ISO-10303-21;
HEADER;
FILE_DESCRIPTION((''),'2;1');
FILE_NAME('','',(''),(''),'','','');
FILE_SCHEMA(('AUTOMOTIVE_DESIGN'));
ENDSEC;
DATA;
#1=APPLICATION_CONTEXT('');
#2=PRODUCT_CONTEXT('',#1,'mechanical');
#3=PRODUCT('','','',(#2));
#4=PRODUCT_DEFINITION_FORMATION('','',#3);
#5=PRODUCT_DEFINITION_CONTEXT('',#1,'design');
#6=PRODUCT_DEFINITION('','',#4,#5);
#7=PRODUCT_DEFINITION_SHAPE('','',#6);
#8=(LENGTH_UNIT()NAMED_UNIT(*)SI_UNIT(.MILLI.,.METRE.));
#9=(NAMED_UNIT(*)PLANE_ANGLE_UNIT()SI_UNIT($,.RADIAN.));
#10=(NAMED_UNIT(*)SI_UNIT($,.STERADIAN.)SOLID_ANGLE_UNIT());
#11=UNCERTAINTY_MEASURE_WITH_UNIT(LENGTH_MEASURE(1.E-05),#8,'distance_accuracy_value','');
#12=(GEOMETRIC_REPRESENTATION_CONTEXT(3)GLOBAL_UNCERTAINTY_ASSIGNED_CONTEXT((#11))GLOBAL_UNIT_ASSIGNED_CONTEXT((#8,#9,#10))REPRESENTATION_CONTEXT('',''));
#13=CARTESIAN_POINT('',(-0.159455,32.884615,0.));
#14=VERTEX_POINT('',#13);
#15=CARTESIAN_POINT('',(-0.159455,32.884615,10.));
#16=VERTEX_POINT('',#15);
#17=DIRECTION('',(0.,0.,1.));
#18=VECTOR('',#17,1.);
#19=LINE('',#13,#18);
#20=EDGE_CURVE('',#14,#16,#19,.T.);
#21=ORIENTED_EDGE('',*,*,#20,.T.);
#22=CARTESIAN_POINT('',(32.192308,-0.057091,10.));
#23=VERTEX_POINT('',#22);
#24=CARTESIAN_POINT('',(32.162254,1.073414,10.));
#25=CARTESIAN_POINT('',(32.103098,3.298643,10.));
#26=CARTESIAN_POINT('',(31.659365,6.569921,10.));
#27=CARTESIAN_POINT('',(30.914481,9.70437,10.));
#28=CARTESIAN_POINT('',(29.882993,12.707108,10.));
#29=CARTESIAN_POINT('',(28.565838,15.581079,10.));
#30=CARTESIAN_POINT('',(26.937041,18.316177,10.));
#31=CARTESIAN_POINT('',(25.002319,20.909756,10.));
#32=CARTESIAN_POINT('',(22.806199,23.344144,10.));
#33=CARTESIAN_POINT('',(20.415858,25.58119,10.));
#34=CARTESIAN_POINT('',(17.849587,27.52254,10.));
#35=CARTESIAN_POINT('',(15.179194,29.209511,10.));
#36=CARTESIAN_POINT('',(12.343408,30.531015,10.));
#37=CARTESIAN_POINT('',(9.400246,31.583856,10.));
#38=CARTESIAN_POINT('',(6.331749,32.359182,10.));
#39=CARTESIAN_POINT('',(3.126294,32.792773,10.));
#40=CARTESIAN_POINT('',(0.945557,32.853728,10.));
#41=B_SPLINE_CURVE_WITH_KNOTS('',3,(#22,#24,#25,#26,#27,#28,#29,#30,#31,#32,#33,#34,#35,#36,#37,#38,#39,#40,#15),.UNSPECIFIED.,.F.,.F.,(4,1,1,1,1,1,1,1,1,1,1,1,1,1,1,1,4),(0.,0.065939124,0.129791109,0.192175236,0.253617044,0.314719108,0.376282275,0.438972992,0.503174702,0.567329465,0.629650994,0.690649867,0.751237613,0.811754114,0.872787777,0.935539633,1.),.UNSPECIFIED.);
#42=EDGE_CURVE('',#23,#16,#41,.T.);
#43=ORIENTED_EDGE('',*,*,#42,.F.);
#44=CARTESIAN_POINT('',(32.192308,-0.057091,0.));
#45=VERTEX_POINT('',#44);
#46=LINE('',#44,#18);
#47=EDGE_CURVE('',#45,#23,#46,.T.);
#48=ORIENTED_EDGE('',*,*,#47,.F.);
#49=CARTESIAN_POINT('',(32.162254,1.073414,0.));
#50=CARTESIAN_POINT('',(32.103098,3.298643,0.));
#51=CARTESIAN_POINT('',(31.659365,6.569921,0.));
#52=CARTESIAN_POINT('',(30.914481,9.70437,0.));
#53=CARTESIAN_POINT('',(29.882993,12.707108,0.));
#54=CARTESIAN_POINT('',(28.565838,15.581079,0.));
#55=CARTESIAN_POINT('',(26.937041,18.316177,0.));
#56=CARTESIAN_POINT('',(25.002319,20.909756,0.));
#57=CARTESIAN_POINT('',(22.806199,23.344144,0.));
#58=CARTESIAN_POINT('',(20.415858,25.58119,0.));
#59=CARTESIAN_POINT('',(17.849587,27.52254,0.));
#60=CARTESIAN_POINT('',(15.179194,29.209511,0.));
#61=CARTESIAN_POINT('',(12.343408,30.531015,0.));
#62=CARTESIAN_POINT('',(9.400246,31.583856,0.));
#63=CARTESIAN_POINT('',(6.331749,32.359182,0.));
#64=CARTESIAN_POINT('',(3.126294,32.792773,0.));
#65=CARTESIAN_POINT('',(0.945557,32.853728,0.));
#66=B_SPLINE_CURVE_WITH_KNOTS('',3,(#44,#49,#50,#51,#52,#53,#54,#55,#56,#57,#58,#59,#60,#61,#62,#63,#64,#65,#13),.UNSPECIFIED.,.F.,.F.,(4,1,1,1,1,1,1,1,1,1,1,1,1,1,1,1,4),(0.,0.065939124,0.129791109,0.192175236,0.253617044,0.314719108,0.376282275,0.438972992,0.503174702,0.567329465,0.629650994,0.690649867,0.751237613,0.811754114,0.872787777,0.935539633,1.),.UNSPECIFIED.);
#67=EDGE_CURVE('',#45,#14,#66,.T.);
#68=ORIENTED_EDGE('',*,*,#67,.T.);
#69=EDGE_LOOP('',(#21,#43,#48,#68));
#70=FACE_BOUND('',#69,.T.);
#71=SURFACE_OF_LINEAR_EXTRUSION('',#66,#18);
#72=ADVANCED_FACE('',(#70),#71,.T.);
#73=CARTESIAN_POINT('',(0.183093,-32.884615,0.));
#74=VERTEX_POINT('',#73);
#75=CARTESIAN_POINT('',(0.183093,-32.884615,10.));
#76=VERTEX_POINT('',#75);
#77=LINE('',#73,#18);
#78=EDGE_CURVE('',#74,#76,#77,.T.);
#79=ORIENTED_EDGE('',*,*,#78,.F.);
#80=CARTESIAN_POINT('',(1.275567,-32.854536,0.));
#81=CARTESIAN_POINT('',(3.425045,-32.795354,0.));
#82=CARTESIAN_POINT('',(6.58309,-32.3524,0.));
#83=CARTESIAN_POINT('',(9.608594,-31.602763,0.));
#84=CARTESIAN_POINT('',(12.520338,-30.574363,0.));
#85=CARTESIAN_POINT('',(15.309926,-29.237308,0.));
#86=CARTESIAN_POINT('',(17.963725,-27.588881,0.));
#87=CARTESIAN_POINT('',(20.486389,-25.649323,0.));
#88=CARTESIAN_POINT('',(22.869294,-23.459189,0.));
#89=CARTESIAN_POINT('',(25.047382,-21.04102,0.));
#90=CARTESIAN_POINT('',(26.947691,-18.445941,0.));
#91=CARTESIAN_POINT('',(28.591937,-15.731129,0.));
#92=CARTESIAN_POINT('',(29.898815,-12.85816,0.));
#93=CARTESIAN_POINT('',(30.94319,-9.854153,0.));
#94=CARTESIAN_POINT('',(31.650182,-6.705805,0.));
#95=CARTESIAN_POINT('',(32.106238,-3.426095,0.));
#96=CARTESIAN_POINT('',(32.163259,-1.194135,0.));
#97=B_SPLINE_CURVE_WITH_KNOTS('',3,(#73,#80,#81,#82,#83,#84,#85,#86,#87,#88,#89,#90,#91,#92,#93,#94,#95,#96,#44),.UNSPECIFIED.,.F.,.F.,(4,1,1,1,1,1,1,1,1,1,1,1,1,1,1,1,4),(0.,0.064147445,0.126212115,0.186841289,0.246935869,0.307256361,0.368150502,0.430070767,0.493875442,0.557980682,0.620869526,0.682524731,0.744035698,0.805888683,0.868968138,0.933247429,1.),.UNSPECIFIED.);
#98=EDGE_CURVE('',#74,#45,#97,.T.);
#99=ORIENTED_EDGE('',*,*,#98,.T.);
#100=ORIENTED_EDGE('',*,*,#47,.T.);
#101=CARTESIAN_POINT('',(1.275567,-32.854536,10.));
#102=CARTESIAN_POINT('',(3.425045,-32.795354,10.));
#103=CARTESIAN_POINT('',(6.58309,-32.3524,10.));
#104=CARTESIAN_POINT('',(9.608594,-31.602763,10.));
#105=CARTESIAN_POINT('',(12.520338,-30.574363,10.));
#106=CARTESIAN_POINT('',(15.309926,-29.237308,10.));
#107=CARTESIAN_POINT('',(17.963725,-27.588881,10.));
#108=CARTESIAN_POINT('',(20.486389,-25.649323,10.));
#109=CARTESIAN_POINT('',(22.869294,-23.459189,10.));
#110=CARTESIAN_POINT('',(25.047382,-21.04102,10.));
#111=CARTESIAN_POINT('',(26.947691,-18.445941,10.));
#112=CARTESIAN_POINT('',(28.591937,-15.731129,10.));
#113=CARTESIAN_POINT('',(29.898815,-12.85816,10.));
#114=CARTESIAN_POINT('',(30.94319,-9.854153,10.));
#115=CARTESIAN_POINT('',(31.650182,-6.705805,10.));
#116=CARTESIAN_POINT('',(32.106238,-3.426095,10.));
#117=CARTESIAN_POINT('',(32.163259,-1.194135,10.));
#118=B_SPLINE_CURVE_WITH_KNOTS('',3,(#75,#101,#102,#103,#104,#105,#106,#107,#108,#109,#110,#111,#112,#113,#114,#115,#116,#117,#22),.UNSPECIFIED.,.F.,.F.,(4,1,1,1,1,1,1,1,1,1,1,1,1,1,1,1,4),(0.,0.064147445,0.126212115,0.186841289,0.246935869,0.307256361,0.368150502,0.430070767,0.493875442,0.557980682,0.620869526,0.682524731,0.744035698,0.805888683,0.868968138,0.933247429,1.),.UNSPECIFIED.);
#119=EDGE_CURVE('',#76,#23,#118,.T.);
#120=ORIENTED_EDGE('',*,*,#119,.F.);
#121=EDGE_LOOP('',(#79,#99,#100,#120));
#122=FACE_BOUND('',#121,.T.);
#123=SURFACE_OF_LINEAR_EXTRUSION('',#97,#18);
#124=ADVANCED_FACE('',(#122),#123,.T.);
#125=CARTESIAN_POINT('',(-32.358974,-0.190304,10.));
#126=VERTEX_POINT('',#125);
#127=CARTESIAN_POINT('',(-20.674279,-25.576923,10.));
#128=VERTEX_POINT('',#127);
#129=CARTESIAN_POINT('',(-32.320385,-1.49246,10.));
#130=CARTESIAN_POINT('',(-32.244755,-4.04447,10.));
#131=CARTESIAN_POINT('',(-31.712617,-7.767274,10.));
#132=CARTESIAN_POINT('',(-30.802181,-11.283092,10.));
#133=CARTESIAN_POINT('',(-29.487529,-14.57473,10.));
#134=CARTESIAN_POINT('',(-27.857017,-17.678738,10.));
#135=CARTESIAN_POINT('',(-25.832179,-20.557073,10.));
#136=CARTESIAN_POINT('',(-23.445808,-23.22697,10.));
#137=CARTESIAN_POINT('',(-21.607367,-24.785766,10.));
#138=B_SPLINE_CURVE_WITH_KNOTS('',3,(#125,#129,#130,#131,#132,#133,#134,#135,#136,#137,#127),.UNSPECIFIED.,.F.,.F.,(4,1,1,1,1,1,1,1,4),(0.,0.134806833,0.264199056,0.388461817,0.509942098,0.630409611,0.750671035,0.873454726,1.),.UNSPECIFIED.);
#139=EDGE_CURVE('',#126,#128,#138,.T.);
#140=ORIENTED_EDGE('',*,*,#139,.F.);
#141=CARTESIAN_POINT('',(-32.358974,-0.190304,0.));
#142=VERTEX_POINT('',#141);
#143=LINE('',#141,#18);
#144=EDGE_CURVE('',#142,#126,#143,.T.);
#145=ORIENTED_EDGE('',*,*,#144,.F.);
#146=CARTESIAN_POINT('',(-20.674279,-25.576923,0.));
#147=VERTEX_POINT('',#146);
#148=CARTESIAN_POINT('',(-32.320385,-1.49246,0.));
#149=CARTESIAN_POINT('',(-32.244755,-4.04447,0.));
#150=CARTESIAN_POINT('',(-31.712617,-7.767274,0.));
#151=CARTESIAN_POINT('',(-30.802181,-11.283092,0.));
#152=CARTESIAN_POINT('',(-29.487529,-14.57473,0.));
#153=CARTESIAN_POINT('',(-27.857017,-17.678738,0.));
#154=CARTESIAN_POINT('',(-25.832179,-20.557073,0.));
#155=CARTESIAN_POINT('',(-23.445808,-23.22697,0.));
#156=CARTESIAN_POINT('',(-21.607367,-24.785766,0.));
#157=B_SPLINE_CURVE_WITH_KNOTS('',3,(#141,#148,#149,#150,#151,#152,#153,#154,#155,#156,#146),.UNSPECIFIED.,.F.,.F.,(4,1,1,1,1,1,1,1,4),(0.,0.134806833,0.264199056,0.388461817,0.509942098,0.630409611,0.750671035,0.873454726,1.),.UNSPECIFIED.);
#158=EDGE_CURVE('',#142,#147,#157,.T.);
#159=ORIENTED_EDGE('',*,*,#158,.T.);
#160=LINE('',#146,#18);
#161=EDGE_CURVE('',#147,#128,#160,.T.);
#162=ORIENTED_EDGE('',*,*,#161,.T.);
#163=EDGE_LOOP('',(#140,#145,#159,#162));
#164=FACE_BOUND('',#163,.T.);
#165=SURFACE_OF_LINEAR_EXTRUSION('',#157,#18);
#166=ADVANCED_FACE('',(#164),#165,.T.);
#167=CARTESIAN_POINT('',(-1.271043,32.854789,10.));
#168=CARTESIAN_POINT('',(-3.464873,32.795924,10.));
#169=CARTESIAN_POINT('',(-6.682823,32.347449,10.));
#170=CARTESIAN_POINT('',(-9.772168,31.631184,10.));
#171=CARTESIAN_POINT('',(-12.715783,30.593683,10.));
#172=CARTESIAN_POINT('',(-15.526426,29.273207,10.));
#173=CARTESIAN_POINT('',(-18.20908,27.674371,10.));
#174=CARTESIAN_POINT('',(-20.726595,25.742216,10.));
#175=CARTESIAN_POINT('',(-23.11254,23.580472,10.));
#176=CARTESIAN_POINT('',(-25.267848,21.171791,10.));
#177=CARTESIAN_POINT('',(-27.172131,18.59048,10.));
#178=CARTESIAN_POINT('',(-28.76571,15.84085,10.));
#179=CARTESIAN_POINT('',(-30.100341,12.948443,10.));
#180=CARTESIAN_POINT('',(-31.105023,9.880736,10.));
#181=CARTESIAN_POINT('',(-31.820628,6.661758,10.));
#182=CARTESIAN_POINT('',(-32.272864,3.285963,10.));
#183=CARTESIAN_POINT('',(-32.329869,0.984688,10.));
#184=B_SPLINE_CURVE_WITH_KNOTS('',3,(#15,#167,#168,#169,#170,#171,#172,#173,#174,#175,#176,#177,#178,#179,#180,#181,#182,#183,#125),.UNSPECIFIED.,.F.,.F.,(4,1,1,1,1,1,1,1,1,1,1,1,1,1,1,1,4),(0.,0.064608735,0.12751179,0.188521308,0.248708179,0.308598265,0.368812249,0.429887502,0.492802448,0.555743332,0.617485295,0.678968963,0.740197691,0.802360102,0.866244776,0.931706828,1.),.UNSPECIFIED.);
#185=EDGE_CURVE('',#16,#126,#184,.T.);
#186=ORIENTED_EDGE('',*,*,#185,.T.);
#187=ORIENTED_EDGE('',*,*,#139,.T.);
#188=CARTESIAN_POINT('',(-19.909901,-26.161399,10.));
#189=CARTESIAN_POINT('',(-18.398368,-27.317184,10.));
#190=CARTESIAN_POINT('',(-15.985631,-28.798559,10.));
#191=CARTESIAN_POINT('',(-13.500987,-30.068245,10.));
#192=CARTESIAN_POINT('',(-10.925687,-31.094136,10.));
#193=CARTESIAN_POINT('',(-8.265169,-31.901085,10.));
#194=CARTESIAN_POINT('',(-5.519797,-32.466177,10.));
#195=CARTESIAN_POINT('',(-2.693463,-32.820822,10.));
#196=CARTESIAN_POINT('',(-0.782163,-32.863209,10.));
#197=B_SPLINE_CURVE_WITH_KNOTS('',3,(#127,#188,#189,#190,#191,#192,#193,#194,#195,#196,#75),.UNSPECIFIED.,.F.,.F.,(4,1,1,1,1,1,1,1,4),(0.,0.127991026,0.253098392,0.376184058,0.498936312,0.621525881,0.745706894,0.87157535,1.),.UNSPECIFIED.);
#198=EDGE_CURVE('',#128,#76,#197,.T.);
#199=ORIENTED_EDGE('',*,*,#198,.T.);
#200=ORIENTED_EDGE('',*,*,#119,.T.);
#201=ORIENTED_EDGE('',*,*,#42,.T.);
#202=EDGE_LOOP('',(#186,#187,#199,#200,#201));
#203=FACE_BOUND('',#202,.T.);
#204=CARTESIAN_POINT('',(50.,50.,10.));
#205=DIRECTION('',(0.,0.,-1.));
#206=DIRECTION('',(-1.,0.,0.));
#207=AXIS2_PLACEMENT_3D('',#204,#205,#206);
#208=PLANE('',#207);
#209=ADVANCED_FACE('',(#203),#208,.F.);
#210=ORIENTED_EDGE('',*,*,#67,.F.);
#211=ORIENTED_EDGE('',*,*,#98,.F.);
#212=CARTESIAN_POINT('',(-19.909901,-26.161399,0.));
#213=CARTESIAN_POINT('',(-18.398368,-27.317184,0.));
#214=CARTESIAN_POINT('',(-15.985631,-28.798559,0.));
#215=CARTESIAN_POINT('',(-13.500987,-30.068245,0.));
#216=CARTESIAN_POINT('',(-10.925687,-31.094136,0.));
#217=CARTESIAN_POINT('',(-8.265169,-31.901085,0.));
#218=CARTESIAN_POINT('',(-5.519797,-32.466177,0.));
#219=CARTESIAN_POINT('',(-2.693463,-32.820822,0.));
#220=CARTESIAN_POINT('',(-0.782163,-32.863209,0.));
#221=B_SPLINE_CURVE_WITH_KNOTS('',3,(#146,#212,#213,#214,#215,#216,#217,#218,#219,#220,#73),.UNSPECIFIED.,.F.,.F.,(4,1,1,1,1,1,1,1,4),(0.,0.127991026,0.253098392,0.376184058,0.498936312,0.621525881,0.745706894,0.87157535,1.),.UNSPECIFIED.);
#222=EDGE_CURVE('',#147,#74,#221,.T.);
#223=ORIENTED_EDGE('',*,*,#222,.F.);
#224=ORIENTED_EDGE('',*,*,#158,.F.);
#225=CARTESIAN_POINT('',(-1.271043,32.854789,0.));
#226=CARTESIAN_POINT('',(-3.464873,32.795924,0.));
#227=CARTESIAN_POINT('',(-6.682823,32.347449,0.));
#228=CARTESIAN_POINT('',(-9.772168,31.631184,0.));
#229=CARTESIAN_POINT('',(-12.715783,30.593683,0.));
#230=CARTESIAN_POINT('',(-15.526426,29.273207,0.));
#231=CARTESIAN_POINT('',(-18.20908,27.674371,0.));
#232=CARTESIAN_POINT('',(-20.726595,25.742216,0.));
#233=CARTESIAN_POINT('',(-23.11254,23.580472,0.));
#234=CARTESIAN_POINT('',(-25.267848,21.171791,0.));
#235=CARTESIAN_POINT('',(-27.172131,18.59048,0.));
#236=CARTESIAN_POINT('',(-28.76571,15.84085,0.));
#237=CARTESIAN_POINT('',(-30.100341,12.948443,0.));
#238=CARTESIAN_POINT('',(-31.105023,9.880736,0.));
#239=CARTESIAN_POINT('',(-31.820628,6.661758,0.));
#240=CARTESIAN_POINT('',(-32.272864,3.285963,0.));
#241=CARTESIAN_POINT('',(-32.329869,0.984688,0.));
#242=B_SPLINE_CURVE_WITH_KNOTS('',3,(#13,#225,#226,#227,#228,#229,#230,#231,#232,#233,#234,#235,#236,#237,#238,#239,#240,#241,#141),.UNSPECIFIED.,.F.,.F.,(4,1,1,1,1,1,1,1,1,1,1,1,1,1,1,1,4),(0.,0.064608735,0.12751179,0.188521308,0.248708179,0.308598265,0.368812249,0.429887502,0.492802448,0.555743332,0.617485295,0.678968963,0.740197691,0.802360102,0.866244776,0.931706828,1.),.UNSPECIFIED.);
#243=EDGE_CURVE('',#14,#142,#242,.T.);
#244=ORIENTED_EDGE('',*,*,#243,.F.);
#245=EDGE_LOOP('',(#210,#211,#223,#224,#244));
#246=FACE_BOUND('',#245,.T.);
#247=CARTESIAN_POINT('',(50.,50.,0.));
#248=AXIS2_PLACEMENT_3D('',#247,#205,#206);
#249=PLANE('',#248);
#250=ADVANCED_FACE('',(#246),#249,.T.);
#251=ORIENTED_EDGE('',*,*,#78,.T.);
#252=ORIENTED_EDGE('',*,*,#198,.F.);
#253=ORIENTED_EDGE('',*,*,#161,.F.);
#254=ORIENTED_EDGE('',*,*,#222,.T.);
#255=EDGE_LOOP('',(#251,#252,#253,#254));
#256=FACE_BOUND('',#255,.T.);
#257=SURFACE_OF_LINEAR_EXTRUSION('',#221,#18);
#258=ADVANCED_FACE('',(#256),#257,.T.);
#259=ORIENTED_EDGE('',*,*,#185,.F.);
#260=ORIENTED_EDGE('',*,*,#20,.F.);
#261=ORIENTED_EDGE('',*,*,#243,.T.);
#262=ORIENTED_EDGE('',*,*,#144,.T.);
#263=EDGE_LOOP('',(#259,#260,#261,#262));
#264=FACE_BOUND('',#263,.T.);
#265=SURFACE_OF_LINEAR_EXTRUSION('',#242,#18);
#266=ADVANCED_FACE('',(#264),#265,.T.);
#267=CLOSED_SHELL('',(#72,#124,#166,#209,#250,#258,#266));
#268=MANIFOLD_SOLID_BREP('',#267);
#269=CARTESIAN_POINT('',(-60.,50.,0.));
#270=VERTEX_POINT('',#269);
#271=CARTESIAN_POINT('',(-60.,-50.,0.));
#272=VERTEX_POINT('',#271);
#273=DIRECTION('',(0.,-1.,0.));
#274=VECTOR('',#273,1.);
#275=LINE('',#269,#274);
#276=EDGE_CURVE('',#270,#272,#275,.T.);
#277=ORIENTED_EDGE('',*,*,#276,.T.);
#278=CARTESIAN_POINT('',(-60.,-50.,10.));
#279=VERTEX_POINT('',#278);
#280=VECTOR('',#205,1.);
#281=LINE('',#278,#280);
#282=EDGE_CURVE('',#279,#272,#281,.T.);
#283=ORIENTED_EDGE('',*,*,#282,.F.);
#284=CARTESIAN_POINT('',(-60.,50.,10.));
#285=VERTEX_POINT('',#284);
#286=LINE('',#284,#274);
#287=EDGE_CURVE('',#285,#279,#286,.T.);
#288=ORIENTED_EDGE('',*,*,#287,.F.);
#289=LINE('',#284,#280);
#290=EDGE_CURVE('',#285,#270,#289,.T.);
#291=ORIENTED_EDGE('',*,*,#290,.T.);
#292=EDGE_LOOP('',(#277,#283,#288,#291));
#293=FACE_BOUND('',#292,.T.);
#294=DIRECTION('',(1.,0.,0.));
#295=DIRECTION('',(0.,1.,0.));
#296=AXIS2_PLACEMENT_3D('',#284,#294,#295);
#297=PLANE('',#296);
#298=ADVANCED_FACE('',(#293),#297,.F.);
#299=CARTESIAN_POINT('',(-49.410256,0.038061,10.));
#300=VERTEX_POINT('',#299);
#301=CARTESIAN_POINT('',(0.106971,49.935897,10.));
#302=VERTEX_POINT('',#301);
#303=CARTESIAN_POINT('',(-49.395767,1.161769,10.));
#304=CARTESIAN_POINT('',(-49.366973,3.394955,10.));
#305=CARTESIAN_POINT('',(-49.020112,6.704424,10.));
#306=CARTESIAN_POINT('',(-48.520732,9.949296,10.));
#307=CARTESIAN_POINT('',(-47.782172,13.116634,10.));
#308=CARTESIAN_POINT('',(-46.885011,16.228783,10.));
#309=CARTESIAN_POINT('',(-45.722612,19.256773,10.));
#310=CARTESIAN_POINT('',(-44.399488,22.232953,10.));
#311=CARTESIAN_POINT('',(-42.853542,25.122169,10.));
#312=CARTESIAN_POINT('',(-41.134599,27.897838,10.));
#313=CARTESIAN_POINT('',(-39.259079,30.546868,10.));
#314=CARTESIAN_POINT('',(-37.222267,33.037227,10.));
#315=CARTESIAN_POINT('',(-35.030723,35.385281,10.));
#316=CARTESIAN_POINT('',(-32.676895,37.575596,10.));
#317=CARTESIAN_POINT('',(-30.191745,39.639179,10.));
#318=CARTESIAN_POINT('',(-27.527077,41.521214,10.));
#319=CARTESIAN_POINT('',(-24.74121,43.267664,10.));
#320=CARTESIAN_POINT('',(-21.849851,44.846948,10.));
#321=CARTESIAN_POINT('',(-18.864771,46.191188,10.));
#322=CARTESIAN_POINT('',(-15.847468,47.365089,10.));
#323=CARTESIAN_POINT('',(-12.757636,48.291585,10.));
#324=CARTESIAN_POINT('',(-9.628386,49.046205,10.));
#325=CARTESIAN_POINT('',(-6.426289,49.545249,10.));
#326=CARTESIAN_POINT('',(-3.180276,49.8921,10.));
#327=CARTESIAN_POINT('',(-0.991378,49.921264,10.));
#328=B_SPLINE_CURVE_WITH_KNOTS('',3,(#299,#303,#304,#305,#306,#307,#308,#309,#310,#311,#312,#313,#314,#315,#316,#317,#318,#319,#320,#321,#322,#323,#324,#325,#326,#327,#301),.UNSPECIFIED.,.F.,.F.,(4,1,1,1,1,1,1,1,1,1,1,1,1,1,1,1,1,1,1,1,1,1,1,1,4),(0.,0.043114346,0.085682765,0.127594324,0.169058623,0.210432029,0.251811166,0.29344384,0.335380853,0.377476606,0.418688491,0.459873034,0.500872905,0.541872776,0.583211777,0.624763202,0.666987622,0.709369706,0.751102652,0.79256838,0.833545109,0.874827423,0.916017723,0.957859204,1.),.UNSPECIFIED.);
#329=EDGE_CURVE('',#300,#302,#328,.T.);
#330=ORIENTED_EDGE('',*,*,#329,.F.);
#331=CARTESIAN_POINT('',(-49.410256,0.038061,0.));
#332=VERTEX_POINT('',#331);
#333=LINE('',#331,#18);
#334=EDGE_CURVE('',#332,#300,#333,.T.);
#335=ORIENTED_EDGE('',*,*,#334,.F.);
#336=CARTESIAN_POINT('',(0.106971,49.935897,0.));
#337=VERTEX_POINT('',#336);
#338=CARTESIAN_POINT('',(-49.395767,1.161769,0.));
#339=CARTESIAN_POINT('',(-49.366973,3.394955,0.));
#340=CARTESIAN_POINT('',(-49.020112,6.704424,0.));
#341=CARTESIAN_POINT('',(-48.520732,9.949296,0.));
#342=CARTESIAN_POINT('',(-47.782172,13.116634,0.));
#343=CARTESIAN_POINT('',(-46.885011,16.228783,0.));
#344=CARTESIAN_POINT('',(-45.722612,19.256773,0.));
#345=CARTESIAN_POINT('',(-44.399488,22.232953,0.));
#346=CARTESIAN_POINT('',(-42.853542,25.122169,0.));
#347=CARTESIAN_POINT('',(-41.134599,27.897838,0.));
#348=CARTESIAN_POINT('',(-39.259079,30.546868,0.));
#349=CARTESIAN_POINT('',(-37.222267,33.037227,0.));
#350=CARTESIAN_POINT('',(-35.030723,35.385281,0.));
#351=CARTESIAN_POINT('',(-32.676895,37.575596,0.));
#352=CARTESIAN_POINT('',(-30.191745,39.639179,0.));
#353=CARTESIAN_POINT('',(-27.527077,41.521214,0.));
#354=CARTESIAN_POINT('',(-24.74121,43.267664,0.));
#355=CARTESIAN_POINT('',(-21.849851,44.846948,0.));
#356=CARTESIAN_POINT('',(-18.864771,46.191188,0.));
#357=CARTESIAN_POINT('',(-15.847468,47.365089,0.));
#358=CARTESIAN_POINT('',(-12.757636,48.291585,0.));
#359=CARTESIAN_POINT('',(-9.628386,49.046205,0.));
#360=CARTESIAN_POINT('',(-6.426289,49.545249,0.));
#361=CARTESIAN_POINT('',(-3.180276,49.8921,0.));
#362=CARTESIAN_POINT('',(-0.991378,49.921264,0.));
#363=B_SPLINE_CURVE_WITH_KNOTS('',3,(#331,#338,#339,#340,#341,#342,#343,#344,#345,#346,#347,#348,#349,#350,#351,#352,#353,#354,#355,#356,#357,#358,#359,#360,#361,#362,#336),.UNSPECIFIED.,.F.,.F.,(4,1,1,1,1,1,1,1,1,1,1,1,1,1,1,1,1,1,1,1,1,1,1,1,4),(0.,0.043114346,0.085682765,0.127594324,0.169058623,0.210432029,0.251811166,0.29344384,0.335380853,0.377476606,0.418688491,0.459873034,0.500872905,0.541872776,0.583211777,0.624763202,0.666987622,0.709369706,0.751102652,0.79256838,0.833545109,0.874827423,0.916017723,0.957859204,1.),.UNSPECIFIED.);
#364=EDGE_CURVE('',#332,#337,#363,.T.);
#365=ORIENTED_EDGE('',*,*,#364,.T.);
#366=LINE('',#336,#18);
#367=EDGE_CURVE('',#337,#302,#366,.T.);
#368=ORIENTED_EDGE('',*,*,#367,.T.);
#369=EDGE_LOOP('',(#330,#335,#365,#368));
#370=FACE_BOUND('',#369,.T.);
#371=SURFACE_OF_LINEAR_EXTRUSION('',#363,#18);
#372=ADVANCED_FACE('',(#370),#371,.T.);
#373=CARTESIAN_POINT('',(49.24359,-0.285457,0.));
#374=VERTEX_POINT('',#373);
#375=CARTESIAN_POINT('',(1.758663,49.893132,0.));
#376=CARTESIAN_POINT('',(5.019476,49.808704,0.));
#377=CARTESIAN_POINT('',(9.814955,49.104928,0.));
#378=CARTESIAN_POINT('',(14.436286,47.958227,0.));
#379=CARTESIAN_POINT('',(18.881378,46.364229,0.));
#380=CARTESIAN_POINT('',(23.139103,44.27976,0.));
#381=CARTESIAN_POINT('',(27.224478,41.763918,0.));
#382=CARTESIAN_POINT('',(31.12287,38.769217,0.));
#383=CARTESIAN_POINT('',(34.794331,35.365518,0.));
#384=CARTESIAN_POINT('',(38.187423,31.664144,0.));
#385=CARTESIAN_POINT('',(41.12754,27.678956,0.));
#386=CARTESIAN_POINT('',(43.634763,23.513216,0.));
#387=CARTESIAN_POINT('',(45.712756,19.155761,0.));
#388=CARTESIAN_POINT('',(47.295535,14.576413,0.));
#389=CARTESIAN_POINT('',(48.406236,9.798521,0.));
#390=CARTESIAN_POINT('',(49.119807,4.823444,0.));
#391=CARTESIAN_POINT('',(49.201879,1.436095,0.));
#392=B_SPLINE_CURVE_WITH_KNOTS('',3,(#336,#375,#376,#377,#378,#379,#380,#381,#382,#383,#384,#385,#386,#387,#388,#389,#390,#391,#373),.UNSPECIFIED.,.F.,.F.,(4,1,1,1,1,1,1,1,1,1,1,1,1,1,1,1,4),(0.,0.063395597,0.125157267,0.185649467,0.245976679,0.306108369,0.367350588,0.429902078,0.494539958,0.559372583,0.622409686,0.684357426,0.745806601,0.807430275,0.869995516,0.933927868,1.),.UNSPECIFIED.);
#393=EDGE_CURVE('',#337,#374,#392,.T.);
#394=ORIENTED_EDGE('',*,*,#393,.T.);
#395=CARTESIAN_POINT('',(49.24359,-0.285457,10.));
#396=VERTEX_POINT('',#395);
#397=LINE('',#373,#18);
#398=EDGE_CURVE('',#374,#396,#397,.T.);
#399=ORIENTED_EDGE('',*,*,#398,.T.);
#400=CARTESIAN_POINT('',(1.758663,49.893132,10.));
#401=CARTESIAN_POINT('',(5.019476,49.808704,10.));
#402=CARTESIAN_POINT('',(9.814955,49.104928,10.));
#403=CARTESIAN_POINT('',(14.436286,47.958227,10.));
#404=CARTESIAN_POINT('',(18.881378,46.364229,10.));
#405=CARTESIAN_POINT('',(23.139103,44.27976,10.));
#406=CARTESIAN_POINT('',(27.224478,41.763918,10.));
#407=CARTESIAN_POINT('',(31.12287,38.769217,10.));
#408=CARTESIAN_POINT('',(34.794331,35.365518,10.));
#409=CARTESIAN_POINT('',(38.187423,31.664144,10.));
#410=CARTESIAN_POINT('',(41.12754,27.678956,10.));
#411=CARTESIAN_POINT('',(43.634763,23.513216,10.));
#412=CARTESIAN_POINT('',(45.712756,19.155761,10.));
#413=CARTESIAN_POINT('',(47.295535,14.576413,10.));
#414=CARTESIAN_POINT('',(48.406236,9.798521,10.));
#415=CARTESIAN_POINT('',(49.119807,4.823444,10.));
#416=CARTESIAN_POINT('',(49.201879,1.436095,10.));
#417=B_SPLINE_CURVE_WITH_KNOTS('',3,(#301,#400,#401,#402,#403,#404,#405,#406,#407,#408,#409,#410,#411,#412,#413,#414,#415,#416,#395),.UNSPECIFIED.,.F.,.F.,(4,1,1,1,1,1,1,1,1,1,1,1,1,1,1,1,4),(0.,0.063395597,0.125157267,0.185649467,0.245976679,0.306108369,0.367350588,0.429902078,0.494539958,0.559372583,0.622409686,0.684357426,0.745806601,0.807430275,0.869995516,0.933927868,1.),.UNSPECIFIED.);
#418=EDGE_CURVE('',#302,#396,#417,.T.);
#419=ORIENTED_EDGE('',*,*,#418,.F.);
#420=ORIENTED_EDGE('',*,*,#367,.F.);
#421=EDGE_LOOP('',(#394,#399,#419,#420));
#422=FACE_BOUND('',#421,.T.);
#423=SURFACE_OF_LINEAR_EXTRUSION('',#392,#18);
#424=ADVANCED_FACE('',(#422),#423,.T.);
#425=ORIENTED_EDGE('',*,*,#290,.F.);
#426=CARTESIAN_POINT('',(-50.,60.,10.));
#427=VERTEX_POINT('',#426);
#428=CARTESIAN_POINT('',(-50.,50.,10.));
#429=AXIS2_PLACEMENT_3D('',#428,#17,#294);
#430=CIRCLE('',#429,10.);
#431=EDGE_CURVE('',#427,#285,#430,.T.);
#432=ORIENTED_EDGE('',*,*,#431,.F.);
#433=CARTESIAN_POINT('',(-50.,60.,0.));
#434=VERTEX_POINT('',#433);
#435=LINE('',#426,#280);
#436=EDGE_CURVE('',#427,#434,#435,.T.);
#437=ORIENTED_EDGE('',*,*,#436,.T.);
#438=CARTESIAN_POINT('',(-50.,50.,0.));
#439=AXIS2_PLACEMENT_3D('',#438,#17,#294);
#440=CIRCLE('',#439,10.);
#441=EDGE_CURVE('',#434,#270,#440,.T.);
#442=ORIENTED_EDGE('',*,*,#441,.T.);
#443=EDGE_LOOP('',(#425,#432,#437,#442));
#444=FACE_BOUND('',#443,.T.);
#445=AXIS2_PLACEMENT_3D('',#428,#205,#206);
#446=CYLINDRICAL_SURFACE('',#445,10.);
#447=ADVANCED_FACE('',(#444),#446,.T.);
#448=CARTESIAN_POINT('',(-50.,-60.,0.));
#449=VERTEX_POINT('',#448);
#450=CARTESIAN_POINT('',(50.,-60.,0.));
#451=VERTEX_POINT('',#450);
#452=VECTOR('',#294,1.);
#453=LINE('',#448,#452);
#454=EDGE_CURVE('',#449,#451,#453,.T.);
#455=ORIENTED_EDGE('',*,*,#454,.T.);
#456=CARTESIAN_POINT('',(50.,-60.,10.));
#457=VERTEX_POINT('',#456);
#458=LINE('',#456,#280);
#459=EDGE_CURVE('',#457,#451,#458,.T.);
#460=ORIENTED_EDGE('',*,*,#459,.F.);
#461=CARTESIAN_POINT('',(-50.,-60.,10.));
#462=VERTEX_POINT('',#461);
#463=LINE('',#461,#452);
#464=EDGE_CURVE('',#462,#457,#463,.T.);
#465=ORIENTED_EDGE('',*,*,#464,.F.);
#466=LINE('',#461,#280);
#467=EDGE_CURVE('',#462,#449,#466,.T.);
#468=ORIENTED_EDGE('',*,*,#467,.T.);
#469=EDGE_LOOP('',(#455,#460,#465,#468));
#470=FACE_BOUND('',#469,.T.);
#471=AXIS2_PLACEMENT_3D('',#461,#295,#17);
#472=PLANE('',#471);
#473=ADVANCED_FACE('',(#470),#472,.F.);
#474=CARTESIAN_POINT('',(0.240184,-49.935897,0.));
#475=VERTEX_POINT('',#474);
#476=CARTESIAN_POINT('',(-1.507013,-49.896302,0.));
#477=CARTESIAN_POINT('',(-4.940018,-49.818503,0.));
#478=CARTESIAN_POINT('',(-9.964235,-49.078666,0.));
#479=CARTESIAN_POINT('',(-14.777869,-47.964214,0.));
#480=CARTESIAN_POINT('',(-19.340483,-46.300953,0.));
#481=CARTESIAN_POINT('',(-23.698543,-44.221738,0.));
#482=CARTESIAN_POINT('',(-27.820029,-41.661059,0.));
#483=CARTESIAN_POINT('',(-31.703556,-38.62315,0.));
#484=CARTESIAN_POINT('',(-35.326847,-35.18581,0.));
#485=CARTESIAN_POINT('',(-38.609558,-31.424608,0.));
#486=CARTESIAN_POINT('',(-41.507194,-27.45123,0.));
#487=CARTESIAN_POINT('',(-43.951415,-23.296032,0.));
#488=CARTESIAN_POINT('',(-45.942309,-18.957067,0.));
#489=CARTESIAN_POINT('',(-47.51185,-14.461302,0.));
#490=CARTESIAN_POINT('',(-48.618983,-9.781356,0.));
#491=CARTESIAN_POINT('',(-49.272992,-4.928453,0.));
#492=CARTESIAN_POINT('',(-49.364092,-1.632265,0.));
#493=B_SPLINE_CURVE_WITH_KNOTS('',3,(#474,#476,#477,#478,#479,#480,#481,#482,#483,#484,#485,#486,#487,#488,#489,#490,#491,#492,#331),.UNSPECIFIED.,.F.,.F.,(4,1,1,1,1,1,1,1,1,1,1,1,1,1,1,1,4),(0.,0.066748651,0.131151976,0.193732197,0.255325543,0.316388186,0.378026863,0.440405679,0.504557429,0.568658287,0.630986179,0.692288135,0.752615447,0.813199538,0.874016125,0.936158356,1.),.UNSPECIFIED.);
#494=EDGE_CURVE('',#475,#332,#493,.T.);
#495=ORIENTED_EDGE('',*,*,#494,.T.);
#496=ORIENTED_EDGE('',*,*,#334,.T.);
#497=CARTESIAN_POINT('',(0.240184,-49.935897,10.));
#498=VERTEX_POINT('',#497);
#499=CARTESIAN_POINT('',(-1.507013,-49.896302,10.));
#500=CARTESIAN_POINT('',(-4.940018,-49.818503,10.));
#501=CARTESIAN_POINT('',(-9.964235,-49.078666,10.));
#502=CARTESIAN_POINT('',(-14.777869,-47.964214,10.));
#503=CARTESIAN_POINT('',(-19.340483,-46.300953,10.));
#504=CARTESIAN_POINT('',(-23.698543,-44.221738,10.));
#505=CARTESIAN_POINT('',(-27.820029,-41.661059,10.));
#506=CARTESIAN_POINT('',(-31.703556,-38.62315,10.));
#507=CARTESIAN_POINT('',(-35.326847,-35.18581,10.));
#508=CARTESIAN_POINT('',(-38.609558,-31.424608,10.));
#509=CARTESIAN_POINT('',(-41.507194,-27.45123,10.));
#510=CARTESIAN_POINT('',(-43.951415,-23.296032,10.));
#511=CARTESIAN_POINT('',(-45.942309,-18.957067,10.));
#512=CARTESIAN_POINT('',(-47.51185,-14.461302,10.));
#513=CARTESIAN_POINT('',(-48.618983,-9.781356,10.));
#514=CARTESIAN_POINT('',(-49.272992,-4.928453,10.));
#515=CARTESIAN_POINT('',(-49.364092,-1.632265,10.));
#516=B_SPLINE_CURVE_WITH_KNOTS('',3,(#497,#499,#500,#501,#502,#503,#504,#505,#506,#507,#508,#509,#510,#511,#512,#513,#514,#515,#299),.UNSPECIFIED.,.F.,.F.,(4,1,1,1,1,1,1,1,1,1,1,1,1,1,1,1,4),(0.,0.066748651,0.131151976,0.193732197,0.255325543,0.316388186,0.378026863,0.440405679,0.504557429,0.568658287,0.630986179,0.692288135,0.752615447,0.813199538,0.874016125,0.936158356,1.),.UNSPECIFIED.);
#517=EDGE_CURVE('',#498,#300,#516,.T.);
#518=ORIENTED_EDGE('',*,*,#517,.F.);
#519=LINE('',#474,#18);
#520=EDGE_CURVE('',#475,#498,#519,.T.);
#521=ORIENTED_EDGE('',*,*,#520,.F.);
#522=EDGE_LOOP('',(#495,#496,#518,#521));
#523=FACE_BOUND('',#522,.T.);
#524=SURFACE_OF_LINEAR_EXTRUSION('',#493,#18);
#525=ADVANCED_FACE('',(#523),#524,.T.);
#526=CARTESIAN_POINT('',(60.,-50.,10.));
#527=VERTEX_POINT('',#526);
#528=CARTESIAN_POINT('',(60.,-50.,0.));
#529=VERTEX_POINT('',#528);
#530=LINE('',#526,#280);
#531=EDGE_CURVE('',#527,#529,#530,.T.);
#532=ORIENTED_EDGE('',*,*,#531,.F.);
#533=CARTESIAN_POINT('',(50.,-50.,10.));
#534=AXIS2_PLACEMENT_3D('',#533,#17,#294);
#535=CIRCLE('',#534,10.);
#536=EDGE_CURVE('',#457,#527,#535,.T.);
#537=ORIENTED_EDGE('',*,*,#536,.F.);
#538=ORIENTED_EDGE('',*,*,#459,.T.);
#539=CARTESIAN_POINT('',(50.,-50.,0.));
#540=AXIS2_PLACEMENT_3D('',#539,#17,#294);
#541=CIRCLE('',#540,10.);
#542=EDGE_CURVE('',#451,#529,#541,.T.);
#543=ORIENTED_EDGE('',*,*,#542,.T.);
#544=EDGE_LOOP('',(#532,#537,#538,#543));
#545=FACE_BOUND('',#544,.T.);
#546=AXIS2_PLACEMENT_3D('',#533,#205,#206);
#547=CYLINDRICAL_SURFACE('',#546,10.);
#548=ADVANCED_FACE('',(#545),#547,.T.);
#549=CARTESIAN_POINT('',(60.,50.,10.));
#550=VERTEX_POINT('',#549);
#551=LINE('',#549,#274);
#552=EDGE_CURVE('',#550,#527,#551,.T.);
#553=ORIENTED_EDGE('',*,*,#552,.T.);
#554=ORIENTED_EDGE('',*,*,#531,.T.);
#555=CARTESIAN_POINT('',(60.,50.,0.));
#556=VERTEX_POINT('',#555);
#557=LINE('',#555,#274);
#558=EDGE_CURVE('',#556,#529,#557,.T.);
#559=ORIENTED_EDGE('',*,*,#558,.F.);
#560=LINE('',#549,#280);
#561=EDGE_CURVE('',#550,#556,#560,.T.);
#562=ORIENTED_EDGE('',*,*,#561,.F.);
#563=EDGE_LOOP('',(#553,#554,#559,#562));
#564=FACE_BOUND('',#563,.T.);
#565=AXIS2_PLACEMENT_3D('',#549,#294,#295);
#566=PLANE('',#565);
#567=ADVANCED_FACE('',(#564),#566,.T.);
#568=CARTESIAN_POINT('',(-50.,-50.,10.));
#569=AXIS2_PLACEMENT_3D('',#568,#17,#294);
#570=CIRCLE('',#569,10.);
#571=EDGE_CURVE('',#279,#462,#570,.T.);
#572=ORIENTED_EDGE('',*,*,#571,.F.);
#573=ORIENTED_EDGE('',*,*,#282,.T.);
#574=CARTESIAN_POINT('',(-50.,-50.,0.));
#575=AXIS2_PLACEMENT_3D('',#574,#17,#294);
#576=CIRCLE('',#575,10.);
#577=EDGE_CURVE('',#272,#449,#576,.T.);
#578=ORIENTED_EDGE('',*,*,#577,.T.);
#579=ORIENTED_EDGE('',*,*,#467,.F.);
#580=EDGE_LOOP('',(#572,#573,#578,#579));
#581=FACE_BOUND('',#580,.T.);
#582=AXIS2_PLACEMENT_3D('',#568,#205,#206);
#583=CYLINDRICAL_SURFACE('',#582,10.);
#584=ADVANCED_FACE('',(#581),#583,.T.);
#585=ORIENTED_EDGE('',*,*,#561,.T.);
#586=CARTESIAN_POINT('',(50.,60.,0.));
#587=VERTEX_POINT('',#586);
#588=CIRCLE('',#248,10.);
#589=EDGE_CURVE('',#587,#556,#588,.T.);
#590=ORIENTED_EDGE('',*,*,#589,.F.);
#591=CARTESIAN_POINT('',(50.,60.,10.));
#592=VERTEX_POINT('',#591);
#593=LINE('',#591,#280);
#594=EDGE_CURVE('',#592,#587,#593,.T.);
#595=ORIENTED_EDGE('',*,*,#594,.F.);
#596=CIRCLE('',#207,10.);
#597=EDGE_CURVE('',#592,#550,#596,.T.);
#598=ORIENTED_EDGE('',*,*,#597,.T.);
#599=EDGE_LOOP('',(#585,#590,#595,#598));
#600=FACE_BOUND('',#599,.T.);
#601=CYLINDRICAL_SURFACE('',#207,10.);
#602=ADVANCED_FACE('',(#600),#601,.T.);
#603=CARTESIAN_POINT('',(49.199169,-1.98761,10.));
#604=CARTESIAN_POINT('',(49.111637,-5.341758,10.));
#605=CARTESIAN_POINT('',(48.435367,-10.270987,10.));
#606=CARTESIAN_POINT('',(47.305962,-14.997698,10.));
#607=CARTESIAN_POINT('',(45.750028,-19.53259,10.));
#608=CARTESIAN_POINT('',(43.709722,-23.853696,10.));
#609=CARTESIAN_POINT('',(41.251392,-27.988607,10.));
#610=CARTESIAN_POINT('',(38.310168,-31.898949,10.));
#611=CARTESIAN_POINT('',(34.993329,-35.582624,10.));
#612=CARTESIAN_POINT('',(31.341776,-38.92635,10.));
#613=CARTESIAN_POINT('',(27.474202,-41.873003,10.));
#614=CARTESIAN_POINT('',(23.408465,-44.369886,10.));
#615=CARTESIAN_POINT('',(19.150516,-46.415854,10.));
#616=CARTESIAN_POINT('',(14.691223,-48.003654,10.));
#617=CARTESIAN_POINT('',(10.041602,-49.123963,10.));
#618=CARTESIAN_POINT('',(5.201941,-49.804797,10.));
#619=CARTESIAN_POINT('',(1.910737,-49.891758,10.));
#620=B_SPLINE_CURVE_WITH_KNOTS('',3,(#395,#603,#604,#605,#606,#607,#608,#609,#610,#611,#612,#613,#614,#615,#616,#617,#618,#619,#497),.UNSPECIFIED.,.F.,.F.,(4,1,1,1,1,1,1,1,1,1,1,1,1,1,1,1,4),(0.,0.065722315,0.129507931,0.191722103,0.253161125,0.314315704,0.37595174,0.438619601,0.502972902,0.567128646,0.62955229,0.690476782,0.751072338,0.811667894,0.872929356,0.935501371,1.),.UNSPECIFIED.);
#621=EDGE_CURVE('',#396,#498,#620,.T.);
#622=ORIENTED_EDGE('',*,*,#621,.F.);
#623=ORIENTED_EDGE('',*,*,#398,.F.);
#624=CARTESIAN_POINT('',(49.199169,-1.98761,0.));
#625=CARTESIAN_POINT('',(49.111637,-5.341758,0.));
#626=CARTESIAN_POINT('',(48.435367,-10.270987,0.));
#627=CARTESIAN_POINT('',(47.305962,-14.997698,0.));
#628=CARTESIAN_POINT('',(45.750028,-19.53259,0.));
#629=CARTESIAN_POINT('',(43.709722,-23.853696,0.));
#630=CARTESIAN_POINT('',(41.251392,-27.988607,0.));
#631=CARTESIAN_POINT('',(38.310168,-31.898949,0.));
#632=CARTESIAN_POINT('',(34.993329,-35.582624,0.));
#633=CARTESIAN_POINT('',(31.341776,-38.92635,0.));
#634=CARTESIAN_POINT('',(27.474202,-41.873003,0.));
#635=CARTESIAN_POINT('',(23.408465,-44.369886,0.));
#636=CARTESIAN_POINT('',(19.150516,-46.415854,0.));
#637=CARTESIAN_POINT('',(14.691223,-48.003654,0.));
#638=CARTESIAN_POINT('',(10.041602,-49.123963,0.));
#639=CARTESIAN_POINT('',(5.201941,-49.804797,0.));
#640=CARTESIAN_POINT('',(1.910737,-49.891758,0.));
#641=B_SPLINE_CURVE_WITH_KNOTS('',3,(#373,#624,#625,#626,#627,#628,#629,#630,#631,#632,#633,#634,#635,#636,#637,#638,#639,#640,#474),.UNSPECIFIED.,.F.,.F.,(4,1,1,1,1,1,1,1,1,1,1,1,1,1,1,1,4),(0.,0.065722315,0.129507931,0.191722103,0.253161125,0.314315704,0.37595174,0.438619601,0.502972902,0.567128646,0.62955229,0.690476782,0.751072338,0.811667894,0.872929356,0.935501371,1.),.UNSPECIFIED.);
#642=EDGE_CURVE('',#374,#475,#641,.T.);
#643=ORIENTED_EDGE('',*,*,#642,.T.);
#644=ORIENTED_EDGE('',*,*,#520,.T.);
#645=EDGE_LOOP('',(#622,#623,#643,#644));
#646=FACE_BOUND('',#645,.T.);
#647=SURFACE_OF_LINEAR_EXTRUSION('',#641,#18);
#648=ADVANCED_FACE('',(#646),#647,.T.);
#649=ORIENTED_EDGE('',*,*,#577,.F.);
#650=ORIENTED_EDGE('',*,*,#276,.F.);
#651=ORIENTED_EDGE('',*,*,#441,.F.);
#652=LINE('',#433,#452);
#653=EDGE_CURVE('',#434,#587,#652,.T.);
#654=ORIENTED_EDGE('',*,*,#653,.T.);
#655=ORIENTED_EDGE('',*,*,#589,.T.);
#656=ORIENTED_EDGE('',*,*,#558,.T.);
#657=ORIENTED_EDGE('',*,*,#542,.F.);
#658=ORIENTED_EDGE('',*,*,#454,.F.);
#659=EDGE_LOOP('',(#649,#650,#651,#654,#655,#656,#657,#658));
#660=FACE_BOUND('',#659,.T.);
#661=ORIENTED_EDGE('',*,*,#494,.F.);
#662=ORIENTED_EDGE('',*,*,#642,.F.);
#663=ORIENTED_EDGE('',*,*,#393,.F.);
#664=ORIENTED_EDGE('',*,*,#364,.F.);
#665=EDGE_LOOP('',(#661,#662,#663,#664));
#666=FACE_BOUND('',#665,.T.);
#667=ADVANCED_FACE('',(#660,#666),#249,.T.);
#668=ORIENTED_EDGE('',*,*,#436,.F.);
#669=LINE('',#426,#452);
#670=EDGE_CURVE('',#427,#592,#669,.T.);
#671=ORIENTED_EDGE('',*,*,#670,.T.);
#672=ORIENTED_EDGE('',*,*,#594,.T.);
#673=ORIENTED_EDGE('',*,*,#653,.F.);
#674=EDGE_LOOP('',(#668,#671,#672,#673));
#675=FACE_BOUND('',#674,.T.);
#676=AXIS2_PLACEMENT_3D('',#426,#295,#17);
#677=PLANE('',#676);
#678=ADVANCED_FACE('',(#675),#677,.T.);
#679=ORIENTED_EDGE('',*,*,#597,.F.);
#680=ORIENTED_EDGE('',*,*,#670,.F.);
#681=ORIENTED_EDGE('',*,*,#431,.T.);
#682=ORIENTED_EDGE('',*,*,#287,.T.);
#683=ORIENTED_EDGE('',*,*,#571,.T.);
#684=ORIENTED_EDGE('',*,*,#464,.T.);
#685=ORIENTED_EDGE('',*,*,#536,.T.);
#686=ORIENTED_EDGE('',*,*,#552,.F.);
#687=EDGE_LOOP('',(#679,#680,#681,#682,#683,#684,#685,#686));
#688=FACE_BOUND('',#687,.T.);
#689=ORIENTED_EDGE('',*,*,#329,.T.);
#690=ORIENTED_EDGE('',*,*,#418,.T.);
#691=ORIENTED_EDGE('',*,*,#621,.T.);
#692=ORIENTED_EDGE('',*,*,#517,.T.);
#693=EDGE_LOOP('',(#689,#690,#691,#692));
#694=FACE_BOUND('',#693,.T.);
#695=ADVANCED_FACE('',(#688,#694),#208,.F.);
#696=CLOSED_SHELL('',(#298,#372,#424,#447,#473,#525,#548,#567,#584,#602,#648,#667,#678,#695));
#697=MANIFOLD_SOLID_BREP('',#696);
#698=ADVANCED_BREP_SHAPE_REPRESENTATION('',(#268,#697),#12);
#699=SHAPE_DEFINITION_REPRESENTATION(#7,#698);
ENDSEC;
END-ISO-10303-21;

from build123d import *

# Parameters (mm, degrees)
BOSS_EXTRUDE1_DEPTH = 10
CUT_EXTRUDE28_DEPTH = 10


with BuildPart() as part:
    # Sketch1 → Boss-Extrude1 (new body)
    with BuildSketch(Plane.XY):
        with BuildLine():
            Line((-50, 60), (50, 60))
            ThreePointArc((50, 60), (57.071067812, 57.071067812), (60, 50))
            Line((60, 50), (60, -50))
            ThreePointArc((60, -50), (57.071067812, -57.071067812), (50, -60))
            Line((50, -60), (-50, -60))
            ThreePointArc((-50, -60), (-57.071067812, -57.071067812), (-60, -50))
            Line((-60, -50), (-60, 50))
            ThreePointArc((-60, 50), (-57.071067812, 57.071067812), (-50, 60))
        make_face()
    extrude(amount=BOSS_EXTRUDE1_DEPTH)

    # Sketch2 → Cut-Extrude28 (cut)
    with BuildSketch(Plane.XY.offset(10)):
        with BuildLine():
            add(Edge.make_bspline(
                [(0.106971154, 49.935897436), (1.758662582, 49.893132187), (5.019475563, 49.808703899), (9.814954752, 49.10492823), (14.436285632, 47.958226673), (18.881378449, 46.364228567), (23.139103204, 44.279760346), (27.224478315, 41.763918049), (31.122870164, 38.769216661), (34.794331157, 35.365517625), (38.187423276, 31.664143545), (41.127539579, 27.678956295), (43.6347629, 23.513216081), (45.712756297, 19.155760679), (47.295535048, 14.576412634), (48.406236364, 9.798520568), (49.119806932, 4.823443746), (49.201878527, 1.436094542), (49.243589744, -0.285456731)],
                knots=[0, 0, 0, 0, 1.014329547, 2.002516266, 2.970391464, 3.935626869, 4.897733899, 5.877609409, 6.878433252, 7.912639331, 8.949961323, 9.958554974, 10.949718813, 11.932905612, 12.9188844, 13.919928257, 14.942845884, 16, 16, 16, 16], degree=3))
            add(Edge.make_bspline(
                [(49.243589744, -0.285456731), (49.199169102, -1.987610097), (49.111636803, -5.341757915), (48.435367439, -10.270987444), (47.305961773, -14.997698332), (45.750028191, -19.532589595), (43.709721738, -23.853695777), (41.251392002, -27.988606538), (38.310168333, -31.898948917), (34.99332871, -35.582624476), (31.341776131, -38.926350477), (27.474202274, -41.87300324), (23.408465206, -44.369885593), (19.150515867, -46.415853842), (14.691223289, -48.003654451), (10.041602472, -49.123963157), (5.20194113, -49.804797378), (1.91073672, -49.891757925), (0.240184295, -49.935897436)],
                knots=[0, 0, 0, 0, 1.051557043, 2.072126891, 3.067553643, 4.050577992, 5.02905126, 6.015227836, 7.017913613, 8.04756643, 9.074058332, 10.072836633, 11.047628519, 12.017157415, 12.98668631, 13.966869689, 14.968021931, 16, 16, 16, 16], degree=3))
            add(Edge.make_bspline(
                [(0.240184295, -49.935897436), (-1.507013234, -49.896302119), (-4.940017558, -49.818502734), (-9.964234753, -49.078666096), (-14.777868956, -47.964213673), (-19.340482865, -46.300953219), (-23.698542806, -44.221737793), (-27.82002883, -41.661059338), (-31.703555849, -38.623149574), (-35.326847315, -35.185810498), (-38.609558159, -31.424607627), (-41.507194384, -27.451230333), (-43.951414819, -23.296031725), (-45.942308892, -18.957067081), (-47.511849804, -14.461302012), (-48.618982586, -9.78135601), (-49.27299234, -4.928453285), (-49.364092101, -1.632264744), (-49.41025641, 0.038060897)],
                knots=[0, 0, 0, 0, 1.067978421, 2.098431617, 3.099715153, 4.085208694, 5.062210972, 6.048429807, 7.046490867, 8.072918869, 9.098532598, 10.095778865, 11.076610158, 12.041847152, 13.011192615, 13.984257998, 14.978533688, 16, 16, 16, 16], degree=3))
            add(Edge.make_bspline(
                [(-49.41025641, 0.038060897), (-49.395767391, 1.161768547), (-49.366972815, 3.39495513), (-49.020111826, 6.704423652), (-48.520731728, 9.949295792), (-47.782172257, 13.116634197), (-46.885011267, 16.228782967), (-45.722612472, 19.256773451), (-44.399488071, 22.232952914), (-42.853541785, 25.122168949), (-41.134598995, 27.897838356), (-39.25907937, 30.546867816), (-37.222266939, 33.037226692), (-35.030722951, 35.385280596), (-32.676895049, 37.575595599), (-30.191745408, 39.639178659), (-27.527076593, 41.521213673), (-24.741209846, 43.26766369), (-21.849851243, 44.846948152), (-18.864771235, 46.191187855), (-15.847468368, 47.365089491), (-12.757635544, 48.291584568), (-9.628385819, 49.046205114), (-6.426289498, 49.545248631), (-3.180275702, 49.892100015), (-0.991378229, 49.921263649), (0.106971154, 49.935897436)],
                knots=[0, 0, 0, 0, 1.034744296, 2.056386356, 3.06226378, 4.057406941, 5.050368692, 6.043467995, 7.042652155, 8.049140477, 9.059438543, 10.048523776, 11.036952808, 12.020949711, 13.004946614, 13.997082645, 14.994316842, 16.007702937, 17.024872941, 18.026463647, 19.021641123, 20.005082605, 20.995858141, 21.984425357, 22.988620895, 24, 24, 24, 24], degree=3))
        make_face()
        with BuildLine():
            add(Edge.make_bspline(
                [(-0.159455128, 32.884615385), (-1.271043241, 32.85478898), (-3.464873358, 32.795923592), (-6.682822609, 32.347448955), (-9.772167532, 31.631183982), (-12.715782666, 30.593682922), (-15.526425897, 29.273207392), (-18.209079622, 27.674371293), (-20.726594635, 25.742216423), (-23.112539564, 23.580471561), (-25.267848195, 21.171790985), (-27.172131364, 18.590480109), (-28.765709657, 15.84084968), (-30.100341461, 12.948443113), (-31.105023413, 9.880736062), (-31.820628245, 6.661758209), (-32.272863787, 3.285963096), (-32.329868639, 0.984687962), (-32.358974359, -0.190304487)],
                knots=[0, 0, 0, 0, 1.033739768, 2.040188636, 3.016340934, 3.979330865, 4.937572243, 5.900995986, 6.878200029, 7.884839167, 8.891893314, 9.879764717, 10.863503415, 11.843163062, 12.837761627, 13.859916423, 14.907309254, 16, 16, 16, 16], degree=3))
            add(Edge.make_bspline(
                [(-32.358974359, -0.190304487), (-32.320384617, -1.492460432), (-32.244755118, -4.044470326), (-31.712616761, -7.767273602), (-30.802181003, -11.283091808), (-29.48752947, -14.574729602), (-27.857016666, -17.678738159), (-25.832178542, -20.55707344), (-23.44580789, -23.226969572), (-21.607367274, -24.785766143), (-20.674278846, -25.576923077)],
                knots=[0, 0, 0, 0, 1.078454662, 2.113592447, 3.107694534, 4.079536787, 5.043276885, 6.005368276, 6.987637804, 8, 8, 8, 8], degree=3))
            add(Edge.make_bspline(
                [(-20.674278846, -25.576923077), (-19.909901286, -26.161399433), (-18.398367723, -27.317183795), (-15.985631068, -28.798558557), (-13.500987404, -30.068244504), (-10.925686979, -31.09413573), (-8.265168694, -31.901084523), (-5.519797389, -32.466177495), (-2.693463022, -32.820822204), (-0.782163267, -32.863208965), (0.183092949, -32.884615385)],
                knots=[0, 0, 0, 0, 1.023928204, 2.024787132, 3.009472467, 3.9914905, 4.972207045, 5.96565515, 6.972602802, 8, 8, 8, 8], degree=3))
            add(Edge.make_bspline(
                [(0.183092949, -32.884615385), (1.275567277, -32.854536085), (3.425044876, -32.795354117), (6.583090263, -32.352400448), (9.608593662, -31.602762911), (12.520337653, -30.574363178), (15.309926069, -29.237307936), (17.963725429, -27.588880956), (20.486388567, -25.649322801), (22.869293834, -23.459189495), (25.04738189, -21.041020383), (26.947691214, -18.445941061), (28.591937334, -15.731128895), (29.898815449, -12.858159834), (30.943190115, -9.854153361), (31.65018227, -6.70580538), (32.106238176, -3.426094574), (32.163259089, -1.19413547), (32.192307692, -0.057091346)],
                knots=[0, 0, 0, 0, 1.026359118, 2.019393844, 2.989460624, 3.950973911, 4.916101784, 5.890408035, 6.881132271, 7.902007068, 8.92769091, 9.933912415, 10.920395702, 11.90457117, 12.894218921, 13.903490204, 14.931958862, 16, 16, 16, 16], degree=3))
            add(Edge.make_bspline(
                [(32.192307692, -0.057091346), (32.162254004, 1.07341446), (32.103097901, 3.298642726), (31.659364607, 6.569921417), (30.914481078, 9.704370365), (29.882993168, 12.707108457), (28.565837729, 15.58107949), (26.937041406, 18.316176884), (25.002319445, 20.909756467), (22.806199351, 23.344143987), (20.415857605, 25.581190182), (17.8495869, 27.522539625), (15.179194371, 29.209510567), (12.343408185, 30.531015484), (9.400246153, 31.583855648), (6.331748943, 32.359182252), (3.126294435, 32.792773036), (0.945557456, 32.853728383), (-0.159455128, 32.884615385)],
                knots=[0, 0, 0, 0, 1.055025985, 2.07665775, 3.074803781, 4.057872707, 5.035505728, 6.020516407, 7.023567878, 8.050795229, 9.077271434, 10.074415901, 11.050397877, 12.019801805, 12.988065821, 13.964604439, 14.968634123, 16, 16, 16, 16], degree=3))
        make_face(mode=Mode.SUBTRACT)
    extrude(amount=-CUT_EXTRUDE28_DEPTH, mode=Mode.SUBTRACT)


with BuildPart() as cut_extrude28_piece_1:
    # of the separate pieces the step leaves, piece 1, a body of its own (cut_extrude28_pieces)
    add(part.part.solids().sort_by_distance((-50, 60, 0))[0])


with BuildPart() as cut_extrude28_piece_2:
    # of the separate pieces the step leaves, piece 2, a body of its own (cut_extrude28_pieces)
    add(part.part.solids().sort_by_distance((-0.159455128, 32.884615385, 0))[0])


solid = Compound([cut_extrude28_piece_1.part, cut_extrude28_piece_2.part])
